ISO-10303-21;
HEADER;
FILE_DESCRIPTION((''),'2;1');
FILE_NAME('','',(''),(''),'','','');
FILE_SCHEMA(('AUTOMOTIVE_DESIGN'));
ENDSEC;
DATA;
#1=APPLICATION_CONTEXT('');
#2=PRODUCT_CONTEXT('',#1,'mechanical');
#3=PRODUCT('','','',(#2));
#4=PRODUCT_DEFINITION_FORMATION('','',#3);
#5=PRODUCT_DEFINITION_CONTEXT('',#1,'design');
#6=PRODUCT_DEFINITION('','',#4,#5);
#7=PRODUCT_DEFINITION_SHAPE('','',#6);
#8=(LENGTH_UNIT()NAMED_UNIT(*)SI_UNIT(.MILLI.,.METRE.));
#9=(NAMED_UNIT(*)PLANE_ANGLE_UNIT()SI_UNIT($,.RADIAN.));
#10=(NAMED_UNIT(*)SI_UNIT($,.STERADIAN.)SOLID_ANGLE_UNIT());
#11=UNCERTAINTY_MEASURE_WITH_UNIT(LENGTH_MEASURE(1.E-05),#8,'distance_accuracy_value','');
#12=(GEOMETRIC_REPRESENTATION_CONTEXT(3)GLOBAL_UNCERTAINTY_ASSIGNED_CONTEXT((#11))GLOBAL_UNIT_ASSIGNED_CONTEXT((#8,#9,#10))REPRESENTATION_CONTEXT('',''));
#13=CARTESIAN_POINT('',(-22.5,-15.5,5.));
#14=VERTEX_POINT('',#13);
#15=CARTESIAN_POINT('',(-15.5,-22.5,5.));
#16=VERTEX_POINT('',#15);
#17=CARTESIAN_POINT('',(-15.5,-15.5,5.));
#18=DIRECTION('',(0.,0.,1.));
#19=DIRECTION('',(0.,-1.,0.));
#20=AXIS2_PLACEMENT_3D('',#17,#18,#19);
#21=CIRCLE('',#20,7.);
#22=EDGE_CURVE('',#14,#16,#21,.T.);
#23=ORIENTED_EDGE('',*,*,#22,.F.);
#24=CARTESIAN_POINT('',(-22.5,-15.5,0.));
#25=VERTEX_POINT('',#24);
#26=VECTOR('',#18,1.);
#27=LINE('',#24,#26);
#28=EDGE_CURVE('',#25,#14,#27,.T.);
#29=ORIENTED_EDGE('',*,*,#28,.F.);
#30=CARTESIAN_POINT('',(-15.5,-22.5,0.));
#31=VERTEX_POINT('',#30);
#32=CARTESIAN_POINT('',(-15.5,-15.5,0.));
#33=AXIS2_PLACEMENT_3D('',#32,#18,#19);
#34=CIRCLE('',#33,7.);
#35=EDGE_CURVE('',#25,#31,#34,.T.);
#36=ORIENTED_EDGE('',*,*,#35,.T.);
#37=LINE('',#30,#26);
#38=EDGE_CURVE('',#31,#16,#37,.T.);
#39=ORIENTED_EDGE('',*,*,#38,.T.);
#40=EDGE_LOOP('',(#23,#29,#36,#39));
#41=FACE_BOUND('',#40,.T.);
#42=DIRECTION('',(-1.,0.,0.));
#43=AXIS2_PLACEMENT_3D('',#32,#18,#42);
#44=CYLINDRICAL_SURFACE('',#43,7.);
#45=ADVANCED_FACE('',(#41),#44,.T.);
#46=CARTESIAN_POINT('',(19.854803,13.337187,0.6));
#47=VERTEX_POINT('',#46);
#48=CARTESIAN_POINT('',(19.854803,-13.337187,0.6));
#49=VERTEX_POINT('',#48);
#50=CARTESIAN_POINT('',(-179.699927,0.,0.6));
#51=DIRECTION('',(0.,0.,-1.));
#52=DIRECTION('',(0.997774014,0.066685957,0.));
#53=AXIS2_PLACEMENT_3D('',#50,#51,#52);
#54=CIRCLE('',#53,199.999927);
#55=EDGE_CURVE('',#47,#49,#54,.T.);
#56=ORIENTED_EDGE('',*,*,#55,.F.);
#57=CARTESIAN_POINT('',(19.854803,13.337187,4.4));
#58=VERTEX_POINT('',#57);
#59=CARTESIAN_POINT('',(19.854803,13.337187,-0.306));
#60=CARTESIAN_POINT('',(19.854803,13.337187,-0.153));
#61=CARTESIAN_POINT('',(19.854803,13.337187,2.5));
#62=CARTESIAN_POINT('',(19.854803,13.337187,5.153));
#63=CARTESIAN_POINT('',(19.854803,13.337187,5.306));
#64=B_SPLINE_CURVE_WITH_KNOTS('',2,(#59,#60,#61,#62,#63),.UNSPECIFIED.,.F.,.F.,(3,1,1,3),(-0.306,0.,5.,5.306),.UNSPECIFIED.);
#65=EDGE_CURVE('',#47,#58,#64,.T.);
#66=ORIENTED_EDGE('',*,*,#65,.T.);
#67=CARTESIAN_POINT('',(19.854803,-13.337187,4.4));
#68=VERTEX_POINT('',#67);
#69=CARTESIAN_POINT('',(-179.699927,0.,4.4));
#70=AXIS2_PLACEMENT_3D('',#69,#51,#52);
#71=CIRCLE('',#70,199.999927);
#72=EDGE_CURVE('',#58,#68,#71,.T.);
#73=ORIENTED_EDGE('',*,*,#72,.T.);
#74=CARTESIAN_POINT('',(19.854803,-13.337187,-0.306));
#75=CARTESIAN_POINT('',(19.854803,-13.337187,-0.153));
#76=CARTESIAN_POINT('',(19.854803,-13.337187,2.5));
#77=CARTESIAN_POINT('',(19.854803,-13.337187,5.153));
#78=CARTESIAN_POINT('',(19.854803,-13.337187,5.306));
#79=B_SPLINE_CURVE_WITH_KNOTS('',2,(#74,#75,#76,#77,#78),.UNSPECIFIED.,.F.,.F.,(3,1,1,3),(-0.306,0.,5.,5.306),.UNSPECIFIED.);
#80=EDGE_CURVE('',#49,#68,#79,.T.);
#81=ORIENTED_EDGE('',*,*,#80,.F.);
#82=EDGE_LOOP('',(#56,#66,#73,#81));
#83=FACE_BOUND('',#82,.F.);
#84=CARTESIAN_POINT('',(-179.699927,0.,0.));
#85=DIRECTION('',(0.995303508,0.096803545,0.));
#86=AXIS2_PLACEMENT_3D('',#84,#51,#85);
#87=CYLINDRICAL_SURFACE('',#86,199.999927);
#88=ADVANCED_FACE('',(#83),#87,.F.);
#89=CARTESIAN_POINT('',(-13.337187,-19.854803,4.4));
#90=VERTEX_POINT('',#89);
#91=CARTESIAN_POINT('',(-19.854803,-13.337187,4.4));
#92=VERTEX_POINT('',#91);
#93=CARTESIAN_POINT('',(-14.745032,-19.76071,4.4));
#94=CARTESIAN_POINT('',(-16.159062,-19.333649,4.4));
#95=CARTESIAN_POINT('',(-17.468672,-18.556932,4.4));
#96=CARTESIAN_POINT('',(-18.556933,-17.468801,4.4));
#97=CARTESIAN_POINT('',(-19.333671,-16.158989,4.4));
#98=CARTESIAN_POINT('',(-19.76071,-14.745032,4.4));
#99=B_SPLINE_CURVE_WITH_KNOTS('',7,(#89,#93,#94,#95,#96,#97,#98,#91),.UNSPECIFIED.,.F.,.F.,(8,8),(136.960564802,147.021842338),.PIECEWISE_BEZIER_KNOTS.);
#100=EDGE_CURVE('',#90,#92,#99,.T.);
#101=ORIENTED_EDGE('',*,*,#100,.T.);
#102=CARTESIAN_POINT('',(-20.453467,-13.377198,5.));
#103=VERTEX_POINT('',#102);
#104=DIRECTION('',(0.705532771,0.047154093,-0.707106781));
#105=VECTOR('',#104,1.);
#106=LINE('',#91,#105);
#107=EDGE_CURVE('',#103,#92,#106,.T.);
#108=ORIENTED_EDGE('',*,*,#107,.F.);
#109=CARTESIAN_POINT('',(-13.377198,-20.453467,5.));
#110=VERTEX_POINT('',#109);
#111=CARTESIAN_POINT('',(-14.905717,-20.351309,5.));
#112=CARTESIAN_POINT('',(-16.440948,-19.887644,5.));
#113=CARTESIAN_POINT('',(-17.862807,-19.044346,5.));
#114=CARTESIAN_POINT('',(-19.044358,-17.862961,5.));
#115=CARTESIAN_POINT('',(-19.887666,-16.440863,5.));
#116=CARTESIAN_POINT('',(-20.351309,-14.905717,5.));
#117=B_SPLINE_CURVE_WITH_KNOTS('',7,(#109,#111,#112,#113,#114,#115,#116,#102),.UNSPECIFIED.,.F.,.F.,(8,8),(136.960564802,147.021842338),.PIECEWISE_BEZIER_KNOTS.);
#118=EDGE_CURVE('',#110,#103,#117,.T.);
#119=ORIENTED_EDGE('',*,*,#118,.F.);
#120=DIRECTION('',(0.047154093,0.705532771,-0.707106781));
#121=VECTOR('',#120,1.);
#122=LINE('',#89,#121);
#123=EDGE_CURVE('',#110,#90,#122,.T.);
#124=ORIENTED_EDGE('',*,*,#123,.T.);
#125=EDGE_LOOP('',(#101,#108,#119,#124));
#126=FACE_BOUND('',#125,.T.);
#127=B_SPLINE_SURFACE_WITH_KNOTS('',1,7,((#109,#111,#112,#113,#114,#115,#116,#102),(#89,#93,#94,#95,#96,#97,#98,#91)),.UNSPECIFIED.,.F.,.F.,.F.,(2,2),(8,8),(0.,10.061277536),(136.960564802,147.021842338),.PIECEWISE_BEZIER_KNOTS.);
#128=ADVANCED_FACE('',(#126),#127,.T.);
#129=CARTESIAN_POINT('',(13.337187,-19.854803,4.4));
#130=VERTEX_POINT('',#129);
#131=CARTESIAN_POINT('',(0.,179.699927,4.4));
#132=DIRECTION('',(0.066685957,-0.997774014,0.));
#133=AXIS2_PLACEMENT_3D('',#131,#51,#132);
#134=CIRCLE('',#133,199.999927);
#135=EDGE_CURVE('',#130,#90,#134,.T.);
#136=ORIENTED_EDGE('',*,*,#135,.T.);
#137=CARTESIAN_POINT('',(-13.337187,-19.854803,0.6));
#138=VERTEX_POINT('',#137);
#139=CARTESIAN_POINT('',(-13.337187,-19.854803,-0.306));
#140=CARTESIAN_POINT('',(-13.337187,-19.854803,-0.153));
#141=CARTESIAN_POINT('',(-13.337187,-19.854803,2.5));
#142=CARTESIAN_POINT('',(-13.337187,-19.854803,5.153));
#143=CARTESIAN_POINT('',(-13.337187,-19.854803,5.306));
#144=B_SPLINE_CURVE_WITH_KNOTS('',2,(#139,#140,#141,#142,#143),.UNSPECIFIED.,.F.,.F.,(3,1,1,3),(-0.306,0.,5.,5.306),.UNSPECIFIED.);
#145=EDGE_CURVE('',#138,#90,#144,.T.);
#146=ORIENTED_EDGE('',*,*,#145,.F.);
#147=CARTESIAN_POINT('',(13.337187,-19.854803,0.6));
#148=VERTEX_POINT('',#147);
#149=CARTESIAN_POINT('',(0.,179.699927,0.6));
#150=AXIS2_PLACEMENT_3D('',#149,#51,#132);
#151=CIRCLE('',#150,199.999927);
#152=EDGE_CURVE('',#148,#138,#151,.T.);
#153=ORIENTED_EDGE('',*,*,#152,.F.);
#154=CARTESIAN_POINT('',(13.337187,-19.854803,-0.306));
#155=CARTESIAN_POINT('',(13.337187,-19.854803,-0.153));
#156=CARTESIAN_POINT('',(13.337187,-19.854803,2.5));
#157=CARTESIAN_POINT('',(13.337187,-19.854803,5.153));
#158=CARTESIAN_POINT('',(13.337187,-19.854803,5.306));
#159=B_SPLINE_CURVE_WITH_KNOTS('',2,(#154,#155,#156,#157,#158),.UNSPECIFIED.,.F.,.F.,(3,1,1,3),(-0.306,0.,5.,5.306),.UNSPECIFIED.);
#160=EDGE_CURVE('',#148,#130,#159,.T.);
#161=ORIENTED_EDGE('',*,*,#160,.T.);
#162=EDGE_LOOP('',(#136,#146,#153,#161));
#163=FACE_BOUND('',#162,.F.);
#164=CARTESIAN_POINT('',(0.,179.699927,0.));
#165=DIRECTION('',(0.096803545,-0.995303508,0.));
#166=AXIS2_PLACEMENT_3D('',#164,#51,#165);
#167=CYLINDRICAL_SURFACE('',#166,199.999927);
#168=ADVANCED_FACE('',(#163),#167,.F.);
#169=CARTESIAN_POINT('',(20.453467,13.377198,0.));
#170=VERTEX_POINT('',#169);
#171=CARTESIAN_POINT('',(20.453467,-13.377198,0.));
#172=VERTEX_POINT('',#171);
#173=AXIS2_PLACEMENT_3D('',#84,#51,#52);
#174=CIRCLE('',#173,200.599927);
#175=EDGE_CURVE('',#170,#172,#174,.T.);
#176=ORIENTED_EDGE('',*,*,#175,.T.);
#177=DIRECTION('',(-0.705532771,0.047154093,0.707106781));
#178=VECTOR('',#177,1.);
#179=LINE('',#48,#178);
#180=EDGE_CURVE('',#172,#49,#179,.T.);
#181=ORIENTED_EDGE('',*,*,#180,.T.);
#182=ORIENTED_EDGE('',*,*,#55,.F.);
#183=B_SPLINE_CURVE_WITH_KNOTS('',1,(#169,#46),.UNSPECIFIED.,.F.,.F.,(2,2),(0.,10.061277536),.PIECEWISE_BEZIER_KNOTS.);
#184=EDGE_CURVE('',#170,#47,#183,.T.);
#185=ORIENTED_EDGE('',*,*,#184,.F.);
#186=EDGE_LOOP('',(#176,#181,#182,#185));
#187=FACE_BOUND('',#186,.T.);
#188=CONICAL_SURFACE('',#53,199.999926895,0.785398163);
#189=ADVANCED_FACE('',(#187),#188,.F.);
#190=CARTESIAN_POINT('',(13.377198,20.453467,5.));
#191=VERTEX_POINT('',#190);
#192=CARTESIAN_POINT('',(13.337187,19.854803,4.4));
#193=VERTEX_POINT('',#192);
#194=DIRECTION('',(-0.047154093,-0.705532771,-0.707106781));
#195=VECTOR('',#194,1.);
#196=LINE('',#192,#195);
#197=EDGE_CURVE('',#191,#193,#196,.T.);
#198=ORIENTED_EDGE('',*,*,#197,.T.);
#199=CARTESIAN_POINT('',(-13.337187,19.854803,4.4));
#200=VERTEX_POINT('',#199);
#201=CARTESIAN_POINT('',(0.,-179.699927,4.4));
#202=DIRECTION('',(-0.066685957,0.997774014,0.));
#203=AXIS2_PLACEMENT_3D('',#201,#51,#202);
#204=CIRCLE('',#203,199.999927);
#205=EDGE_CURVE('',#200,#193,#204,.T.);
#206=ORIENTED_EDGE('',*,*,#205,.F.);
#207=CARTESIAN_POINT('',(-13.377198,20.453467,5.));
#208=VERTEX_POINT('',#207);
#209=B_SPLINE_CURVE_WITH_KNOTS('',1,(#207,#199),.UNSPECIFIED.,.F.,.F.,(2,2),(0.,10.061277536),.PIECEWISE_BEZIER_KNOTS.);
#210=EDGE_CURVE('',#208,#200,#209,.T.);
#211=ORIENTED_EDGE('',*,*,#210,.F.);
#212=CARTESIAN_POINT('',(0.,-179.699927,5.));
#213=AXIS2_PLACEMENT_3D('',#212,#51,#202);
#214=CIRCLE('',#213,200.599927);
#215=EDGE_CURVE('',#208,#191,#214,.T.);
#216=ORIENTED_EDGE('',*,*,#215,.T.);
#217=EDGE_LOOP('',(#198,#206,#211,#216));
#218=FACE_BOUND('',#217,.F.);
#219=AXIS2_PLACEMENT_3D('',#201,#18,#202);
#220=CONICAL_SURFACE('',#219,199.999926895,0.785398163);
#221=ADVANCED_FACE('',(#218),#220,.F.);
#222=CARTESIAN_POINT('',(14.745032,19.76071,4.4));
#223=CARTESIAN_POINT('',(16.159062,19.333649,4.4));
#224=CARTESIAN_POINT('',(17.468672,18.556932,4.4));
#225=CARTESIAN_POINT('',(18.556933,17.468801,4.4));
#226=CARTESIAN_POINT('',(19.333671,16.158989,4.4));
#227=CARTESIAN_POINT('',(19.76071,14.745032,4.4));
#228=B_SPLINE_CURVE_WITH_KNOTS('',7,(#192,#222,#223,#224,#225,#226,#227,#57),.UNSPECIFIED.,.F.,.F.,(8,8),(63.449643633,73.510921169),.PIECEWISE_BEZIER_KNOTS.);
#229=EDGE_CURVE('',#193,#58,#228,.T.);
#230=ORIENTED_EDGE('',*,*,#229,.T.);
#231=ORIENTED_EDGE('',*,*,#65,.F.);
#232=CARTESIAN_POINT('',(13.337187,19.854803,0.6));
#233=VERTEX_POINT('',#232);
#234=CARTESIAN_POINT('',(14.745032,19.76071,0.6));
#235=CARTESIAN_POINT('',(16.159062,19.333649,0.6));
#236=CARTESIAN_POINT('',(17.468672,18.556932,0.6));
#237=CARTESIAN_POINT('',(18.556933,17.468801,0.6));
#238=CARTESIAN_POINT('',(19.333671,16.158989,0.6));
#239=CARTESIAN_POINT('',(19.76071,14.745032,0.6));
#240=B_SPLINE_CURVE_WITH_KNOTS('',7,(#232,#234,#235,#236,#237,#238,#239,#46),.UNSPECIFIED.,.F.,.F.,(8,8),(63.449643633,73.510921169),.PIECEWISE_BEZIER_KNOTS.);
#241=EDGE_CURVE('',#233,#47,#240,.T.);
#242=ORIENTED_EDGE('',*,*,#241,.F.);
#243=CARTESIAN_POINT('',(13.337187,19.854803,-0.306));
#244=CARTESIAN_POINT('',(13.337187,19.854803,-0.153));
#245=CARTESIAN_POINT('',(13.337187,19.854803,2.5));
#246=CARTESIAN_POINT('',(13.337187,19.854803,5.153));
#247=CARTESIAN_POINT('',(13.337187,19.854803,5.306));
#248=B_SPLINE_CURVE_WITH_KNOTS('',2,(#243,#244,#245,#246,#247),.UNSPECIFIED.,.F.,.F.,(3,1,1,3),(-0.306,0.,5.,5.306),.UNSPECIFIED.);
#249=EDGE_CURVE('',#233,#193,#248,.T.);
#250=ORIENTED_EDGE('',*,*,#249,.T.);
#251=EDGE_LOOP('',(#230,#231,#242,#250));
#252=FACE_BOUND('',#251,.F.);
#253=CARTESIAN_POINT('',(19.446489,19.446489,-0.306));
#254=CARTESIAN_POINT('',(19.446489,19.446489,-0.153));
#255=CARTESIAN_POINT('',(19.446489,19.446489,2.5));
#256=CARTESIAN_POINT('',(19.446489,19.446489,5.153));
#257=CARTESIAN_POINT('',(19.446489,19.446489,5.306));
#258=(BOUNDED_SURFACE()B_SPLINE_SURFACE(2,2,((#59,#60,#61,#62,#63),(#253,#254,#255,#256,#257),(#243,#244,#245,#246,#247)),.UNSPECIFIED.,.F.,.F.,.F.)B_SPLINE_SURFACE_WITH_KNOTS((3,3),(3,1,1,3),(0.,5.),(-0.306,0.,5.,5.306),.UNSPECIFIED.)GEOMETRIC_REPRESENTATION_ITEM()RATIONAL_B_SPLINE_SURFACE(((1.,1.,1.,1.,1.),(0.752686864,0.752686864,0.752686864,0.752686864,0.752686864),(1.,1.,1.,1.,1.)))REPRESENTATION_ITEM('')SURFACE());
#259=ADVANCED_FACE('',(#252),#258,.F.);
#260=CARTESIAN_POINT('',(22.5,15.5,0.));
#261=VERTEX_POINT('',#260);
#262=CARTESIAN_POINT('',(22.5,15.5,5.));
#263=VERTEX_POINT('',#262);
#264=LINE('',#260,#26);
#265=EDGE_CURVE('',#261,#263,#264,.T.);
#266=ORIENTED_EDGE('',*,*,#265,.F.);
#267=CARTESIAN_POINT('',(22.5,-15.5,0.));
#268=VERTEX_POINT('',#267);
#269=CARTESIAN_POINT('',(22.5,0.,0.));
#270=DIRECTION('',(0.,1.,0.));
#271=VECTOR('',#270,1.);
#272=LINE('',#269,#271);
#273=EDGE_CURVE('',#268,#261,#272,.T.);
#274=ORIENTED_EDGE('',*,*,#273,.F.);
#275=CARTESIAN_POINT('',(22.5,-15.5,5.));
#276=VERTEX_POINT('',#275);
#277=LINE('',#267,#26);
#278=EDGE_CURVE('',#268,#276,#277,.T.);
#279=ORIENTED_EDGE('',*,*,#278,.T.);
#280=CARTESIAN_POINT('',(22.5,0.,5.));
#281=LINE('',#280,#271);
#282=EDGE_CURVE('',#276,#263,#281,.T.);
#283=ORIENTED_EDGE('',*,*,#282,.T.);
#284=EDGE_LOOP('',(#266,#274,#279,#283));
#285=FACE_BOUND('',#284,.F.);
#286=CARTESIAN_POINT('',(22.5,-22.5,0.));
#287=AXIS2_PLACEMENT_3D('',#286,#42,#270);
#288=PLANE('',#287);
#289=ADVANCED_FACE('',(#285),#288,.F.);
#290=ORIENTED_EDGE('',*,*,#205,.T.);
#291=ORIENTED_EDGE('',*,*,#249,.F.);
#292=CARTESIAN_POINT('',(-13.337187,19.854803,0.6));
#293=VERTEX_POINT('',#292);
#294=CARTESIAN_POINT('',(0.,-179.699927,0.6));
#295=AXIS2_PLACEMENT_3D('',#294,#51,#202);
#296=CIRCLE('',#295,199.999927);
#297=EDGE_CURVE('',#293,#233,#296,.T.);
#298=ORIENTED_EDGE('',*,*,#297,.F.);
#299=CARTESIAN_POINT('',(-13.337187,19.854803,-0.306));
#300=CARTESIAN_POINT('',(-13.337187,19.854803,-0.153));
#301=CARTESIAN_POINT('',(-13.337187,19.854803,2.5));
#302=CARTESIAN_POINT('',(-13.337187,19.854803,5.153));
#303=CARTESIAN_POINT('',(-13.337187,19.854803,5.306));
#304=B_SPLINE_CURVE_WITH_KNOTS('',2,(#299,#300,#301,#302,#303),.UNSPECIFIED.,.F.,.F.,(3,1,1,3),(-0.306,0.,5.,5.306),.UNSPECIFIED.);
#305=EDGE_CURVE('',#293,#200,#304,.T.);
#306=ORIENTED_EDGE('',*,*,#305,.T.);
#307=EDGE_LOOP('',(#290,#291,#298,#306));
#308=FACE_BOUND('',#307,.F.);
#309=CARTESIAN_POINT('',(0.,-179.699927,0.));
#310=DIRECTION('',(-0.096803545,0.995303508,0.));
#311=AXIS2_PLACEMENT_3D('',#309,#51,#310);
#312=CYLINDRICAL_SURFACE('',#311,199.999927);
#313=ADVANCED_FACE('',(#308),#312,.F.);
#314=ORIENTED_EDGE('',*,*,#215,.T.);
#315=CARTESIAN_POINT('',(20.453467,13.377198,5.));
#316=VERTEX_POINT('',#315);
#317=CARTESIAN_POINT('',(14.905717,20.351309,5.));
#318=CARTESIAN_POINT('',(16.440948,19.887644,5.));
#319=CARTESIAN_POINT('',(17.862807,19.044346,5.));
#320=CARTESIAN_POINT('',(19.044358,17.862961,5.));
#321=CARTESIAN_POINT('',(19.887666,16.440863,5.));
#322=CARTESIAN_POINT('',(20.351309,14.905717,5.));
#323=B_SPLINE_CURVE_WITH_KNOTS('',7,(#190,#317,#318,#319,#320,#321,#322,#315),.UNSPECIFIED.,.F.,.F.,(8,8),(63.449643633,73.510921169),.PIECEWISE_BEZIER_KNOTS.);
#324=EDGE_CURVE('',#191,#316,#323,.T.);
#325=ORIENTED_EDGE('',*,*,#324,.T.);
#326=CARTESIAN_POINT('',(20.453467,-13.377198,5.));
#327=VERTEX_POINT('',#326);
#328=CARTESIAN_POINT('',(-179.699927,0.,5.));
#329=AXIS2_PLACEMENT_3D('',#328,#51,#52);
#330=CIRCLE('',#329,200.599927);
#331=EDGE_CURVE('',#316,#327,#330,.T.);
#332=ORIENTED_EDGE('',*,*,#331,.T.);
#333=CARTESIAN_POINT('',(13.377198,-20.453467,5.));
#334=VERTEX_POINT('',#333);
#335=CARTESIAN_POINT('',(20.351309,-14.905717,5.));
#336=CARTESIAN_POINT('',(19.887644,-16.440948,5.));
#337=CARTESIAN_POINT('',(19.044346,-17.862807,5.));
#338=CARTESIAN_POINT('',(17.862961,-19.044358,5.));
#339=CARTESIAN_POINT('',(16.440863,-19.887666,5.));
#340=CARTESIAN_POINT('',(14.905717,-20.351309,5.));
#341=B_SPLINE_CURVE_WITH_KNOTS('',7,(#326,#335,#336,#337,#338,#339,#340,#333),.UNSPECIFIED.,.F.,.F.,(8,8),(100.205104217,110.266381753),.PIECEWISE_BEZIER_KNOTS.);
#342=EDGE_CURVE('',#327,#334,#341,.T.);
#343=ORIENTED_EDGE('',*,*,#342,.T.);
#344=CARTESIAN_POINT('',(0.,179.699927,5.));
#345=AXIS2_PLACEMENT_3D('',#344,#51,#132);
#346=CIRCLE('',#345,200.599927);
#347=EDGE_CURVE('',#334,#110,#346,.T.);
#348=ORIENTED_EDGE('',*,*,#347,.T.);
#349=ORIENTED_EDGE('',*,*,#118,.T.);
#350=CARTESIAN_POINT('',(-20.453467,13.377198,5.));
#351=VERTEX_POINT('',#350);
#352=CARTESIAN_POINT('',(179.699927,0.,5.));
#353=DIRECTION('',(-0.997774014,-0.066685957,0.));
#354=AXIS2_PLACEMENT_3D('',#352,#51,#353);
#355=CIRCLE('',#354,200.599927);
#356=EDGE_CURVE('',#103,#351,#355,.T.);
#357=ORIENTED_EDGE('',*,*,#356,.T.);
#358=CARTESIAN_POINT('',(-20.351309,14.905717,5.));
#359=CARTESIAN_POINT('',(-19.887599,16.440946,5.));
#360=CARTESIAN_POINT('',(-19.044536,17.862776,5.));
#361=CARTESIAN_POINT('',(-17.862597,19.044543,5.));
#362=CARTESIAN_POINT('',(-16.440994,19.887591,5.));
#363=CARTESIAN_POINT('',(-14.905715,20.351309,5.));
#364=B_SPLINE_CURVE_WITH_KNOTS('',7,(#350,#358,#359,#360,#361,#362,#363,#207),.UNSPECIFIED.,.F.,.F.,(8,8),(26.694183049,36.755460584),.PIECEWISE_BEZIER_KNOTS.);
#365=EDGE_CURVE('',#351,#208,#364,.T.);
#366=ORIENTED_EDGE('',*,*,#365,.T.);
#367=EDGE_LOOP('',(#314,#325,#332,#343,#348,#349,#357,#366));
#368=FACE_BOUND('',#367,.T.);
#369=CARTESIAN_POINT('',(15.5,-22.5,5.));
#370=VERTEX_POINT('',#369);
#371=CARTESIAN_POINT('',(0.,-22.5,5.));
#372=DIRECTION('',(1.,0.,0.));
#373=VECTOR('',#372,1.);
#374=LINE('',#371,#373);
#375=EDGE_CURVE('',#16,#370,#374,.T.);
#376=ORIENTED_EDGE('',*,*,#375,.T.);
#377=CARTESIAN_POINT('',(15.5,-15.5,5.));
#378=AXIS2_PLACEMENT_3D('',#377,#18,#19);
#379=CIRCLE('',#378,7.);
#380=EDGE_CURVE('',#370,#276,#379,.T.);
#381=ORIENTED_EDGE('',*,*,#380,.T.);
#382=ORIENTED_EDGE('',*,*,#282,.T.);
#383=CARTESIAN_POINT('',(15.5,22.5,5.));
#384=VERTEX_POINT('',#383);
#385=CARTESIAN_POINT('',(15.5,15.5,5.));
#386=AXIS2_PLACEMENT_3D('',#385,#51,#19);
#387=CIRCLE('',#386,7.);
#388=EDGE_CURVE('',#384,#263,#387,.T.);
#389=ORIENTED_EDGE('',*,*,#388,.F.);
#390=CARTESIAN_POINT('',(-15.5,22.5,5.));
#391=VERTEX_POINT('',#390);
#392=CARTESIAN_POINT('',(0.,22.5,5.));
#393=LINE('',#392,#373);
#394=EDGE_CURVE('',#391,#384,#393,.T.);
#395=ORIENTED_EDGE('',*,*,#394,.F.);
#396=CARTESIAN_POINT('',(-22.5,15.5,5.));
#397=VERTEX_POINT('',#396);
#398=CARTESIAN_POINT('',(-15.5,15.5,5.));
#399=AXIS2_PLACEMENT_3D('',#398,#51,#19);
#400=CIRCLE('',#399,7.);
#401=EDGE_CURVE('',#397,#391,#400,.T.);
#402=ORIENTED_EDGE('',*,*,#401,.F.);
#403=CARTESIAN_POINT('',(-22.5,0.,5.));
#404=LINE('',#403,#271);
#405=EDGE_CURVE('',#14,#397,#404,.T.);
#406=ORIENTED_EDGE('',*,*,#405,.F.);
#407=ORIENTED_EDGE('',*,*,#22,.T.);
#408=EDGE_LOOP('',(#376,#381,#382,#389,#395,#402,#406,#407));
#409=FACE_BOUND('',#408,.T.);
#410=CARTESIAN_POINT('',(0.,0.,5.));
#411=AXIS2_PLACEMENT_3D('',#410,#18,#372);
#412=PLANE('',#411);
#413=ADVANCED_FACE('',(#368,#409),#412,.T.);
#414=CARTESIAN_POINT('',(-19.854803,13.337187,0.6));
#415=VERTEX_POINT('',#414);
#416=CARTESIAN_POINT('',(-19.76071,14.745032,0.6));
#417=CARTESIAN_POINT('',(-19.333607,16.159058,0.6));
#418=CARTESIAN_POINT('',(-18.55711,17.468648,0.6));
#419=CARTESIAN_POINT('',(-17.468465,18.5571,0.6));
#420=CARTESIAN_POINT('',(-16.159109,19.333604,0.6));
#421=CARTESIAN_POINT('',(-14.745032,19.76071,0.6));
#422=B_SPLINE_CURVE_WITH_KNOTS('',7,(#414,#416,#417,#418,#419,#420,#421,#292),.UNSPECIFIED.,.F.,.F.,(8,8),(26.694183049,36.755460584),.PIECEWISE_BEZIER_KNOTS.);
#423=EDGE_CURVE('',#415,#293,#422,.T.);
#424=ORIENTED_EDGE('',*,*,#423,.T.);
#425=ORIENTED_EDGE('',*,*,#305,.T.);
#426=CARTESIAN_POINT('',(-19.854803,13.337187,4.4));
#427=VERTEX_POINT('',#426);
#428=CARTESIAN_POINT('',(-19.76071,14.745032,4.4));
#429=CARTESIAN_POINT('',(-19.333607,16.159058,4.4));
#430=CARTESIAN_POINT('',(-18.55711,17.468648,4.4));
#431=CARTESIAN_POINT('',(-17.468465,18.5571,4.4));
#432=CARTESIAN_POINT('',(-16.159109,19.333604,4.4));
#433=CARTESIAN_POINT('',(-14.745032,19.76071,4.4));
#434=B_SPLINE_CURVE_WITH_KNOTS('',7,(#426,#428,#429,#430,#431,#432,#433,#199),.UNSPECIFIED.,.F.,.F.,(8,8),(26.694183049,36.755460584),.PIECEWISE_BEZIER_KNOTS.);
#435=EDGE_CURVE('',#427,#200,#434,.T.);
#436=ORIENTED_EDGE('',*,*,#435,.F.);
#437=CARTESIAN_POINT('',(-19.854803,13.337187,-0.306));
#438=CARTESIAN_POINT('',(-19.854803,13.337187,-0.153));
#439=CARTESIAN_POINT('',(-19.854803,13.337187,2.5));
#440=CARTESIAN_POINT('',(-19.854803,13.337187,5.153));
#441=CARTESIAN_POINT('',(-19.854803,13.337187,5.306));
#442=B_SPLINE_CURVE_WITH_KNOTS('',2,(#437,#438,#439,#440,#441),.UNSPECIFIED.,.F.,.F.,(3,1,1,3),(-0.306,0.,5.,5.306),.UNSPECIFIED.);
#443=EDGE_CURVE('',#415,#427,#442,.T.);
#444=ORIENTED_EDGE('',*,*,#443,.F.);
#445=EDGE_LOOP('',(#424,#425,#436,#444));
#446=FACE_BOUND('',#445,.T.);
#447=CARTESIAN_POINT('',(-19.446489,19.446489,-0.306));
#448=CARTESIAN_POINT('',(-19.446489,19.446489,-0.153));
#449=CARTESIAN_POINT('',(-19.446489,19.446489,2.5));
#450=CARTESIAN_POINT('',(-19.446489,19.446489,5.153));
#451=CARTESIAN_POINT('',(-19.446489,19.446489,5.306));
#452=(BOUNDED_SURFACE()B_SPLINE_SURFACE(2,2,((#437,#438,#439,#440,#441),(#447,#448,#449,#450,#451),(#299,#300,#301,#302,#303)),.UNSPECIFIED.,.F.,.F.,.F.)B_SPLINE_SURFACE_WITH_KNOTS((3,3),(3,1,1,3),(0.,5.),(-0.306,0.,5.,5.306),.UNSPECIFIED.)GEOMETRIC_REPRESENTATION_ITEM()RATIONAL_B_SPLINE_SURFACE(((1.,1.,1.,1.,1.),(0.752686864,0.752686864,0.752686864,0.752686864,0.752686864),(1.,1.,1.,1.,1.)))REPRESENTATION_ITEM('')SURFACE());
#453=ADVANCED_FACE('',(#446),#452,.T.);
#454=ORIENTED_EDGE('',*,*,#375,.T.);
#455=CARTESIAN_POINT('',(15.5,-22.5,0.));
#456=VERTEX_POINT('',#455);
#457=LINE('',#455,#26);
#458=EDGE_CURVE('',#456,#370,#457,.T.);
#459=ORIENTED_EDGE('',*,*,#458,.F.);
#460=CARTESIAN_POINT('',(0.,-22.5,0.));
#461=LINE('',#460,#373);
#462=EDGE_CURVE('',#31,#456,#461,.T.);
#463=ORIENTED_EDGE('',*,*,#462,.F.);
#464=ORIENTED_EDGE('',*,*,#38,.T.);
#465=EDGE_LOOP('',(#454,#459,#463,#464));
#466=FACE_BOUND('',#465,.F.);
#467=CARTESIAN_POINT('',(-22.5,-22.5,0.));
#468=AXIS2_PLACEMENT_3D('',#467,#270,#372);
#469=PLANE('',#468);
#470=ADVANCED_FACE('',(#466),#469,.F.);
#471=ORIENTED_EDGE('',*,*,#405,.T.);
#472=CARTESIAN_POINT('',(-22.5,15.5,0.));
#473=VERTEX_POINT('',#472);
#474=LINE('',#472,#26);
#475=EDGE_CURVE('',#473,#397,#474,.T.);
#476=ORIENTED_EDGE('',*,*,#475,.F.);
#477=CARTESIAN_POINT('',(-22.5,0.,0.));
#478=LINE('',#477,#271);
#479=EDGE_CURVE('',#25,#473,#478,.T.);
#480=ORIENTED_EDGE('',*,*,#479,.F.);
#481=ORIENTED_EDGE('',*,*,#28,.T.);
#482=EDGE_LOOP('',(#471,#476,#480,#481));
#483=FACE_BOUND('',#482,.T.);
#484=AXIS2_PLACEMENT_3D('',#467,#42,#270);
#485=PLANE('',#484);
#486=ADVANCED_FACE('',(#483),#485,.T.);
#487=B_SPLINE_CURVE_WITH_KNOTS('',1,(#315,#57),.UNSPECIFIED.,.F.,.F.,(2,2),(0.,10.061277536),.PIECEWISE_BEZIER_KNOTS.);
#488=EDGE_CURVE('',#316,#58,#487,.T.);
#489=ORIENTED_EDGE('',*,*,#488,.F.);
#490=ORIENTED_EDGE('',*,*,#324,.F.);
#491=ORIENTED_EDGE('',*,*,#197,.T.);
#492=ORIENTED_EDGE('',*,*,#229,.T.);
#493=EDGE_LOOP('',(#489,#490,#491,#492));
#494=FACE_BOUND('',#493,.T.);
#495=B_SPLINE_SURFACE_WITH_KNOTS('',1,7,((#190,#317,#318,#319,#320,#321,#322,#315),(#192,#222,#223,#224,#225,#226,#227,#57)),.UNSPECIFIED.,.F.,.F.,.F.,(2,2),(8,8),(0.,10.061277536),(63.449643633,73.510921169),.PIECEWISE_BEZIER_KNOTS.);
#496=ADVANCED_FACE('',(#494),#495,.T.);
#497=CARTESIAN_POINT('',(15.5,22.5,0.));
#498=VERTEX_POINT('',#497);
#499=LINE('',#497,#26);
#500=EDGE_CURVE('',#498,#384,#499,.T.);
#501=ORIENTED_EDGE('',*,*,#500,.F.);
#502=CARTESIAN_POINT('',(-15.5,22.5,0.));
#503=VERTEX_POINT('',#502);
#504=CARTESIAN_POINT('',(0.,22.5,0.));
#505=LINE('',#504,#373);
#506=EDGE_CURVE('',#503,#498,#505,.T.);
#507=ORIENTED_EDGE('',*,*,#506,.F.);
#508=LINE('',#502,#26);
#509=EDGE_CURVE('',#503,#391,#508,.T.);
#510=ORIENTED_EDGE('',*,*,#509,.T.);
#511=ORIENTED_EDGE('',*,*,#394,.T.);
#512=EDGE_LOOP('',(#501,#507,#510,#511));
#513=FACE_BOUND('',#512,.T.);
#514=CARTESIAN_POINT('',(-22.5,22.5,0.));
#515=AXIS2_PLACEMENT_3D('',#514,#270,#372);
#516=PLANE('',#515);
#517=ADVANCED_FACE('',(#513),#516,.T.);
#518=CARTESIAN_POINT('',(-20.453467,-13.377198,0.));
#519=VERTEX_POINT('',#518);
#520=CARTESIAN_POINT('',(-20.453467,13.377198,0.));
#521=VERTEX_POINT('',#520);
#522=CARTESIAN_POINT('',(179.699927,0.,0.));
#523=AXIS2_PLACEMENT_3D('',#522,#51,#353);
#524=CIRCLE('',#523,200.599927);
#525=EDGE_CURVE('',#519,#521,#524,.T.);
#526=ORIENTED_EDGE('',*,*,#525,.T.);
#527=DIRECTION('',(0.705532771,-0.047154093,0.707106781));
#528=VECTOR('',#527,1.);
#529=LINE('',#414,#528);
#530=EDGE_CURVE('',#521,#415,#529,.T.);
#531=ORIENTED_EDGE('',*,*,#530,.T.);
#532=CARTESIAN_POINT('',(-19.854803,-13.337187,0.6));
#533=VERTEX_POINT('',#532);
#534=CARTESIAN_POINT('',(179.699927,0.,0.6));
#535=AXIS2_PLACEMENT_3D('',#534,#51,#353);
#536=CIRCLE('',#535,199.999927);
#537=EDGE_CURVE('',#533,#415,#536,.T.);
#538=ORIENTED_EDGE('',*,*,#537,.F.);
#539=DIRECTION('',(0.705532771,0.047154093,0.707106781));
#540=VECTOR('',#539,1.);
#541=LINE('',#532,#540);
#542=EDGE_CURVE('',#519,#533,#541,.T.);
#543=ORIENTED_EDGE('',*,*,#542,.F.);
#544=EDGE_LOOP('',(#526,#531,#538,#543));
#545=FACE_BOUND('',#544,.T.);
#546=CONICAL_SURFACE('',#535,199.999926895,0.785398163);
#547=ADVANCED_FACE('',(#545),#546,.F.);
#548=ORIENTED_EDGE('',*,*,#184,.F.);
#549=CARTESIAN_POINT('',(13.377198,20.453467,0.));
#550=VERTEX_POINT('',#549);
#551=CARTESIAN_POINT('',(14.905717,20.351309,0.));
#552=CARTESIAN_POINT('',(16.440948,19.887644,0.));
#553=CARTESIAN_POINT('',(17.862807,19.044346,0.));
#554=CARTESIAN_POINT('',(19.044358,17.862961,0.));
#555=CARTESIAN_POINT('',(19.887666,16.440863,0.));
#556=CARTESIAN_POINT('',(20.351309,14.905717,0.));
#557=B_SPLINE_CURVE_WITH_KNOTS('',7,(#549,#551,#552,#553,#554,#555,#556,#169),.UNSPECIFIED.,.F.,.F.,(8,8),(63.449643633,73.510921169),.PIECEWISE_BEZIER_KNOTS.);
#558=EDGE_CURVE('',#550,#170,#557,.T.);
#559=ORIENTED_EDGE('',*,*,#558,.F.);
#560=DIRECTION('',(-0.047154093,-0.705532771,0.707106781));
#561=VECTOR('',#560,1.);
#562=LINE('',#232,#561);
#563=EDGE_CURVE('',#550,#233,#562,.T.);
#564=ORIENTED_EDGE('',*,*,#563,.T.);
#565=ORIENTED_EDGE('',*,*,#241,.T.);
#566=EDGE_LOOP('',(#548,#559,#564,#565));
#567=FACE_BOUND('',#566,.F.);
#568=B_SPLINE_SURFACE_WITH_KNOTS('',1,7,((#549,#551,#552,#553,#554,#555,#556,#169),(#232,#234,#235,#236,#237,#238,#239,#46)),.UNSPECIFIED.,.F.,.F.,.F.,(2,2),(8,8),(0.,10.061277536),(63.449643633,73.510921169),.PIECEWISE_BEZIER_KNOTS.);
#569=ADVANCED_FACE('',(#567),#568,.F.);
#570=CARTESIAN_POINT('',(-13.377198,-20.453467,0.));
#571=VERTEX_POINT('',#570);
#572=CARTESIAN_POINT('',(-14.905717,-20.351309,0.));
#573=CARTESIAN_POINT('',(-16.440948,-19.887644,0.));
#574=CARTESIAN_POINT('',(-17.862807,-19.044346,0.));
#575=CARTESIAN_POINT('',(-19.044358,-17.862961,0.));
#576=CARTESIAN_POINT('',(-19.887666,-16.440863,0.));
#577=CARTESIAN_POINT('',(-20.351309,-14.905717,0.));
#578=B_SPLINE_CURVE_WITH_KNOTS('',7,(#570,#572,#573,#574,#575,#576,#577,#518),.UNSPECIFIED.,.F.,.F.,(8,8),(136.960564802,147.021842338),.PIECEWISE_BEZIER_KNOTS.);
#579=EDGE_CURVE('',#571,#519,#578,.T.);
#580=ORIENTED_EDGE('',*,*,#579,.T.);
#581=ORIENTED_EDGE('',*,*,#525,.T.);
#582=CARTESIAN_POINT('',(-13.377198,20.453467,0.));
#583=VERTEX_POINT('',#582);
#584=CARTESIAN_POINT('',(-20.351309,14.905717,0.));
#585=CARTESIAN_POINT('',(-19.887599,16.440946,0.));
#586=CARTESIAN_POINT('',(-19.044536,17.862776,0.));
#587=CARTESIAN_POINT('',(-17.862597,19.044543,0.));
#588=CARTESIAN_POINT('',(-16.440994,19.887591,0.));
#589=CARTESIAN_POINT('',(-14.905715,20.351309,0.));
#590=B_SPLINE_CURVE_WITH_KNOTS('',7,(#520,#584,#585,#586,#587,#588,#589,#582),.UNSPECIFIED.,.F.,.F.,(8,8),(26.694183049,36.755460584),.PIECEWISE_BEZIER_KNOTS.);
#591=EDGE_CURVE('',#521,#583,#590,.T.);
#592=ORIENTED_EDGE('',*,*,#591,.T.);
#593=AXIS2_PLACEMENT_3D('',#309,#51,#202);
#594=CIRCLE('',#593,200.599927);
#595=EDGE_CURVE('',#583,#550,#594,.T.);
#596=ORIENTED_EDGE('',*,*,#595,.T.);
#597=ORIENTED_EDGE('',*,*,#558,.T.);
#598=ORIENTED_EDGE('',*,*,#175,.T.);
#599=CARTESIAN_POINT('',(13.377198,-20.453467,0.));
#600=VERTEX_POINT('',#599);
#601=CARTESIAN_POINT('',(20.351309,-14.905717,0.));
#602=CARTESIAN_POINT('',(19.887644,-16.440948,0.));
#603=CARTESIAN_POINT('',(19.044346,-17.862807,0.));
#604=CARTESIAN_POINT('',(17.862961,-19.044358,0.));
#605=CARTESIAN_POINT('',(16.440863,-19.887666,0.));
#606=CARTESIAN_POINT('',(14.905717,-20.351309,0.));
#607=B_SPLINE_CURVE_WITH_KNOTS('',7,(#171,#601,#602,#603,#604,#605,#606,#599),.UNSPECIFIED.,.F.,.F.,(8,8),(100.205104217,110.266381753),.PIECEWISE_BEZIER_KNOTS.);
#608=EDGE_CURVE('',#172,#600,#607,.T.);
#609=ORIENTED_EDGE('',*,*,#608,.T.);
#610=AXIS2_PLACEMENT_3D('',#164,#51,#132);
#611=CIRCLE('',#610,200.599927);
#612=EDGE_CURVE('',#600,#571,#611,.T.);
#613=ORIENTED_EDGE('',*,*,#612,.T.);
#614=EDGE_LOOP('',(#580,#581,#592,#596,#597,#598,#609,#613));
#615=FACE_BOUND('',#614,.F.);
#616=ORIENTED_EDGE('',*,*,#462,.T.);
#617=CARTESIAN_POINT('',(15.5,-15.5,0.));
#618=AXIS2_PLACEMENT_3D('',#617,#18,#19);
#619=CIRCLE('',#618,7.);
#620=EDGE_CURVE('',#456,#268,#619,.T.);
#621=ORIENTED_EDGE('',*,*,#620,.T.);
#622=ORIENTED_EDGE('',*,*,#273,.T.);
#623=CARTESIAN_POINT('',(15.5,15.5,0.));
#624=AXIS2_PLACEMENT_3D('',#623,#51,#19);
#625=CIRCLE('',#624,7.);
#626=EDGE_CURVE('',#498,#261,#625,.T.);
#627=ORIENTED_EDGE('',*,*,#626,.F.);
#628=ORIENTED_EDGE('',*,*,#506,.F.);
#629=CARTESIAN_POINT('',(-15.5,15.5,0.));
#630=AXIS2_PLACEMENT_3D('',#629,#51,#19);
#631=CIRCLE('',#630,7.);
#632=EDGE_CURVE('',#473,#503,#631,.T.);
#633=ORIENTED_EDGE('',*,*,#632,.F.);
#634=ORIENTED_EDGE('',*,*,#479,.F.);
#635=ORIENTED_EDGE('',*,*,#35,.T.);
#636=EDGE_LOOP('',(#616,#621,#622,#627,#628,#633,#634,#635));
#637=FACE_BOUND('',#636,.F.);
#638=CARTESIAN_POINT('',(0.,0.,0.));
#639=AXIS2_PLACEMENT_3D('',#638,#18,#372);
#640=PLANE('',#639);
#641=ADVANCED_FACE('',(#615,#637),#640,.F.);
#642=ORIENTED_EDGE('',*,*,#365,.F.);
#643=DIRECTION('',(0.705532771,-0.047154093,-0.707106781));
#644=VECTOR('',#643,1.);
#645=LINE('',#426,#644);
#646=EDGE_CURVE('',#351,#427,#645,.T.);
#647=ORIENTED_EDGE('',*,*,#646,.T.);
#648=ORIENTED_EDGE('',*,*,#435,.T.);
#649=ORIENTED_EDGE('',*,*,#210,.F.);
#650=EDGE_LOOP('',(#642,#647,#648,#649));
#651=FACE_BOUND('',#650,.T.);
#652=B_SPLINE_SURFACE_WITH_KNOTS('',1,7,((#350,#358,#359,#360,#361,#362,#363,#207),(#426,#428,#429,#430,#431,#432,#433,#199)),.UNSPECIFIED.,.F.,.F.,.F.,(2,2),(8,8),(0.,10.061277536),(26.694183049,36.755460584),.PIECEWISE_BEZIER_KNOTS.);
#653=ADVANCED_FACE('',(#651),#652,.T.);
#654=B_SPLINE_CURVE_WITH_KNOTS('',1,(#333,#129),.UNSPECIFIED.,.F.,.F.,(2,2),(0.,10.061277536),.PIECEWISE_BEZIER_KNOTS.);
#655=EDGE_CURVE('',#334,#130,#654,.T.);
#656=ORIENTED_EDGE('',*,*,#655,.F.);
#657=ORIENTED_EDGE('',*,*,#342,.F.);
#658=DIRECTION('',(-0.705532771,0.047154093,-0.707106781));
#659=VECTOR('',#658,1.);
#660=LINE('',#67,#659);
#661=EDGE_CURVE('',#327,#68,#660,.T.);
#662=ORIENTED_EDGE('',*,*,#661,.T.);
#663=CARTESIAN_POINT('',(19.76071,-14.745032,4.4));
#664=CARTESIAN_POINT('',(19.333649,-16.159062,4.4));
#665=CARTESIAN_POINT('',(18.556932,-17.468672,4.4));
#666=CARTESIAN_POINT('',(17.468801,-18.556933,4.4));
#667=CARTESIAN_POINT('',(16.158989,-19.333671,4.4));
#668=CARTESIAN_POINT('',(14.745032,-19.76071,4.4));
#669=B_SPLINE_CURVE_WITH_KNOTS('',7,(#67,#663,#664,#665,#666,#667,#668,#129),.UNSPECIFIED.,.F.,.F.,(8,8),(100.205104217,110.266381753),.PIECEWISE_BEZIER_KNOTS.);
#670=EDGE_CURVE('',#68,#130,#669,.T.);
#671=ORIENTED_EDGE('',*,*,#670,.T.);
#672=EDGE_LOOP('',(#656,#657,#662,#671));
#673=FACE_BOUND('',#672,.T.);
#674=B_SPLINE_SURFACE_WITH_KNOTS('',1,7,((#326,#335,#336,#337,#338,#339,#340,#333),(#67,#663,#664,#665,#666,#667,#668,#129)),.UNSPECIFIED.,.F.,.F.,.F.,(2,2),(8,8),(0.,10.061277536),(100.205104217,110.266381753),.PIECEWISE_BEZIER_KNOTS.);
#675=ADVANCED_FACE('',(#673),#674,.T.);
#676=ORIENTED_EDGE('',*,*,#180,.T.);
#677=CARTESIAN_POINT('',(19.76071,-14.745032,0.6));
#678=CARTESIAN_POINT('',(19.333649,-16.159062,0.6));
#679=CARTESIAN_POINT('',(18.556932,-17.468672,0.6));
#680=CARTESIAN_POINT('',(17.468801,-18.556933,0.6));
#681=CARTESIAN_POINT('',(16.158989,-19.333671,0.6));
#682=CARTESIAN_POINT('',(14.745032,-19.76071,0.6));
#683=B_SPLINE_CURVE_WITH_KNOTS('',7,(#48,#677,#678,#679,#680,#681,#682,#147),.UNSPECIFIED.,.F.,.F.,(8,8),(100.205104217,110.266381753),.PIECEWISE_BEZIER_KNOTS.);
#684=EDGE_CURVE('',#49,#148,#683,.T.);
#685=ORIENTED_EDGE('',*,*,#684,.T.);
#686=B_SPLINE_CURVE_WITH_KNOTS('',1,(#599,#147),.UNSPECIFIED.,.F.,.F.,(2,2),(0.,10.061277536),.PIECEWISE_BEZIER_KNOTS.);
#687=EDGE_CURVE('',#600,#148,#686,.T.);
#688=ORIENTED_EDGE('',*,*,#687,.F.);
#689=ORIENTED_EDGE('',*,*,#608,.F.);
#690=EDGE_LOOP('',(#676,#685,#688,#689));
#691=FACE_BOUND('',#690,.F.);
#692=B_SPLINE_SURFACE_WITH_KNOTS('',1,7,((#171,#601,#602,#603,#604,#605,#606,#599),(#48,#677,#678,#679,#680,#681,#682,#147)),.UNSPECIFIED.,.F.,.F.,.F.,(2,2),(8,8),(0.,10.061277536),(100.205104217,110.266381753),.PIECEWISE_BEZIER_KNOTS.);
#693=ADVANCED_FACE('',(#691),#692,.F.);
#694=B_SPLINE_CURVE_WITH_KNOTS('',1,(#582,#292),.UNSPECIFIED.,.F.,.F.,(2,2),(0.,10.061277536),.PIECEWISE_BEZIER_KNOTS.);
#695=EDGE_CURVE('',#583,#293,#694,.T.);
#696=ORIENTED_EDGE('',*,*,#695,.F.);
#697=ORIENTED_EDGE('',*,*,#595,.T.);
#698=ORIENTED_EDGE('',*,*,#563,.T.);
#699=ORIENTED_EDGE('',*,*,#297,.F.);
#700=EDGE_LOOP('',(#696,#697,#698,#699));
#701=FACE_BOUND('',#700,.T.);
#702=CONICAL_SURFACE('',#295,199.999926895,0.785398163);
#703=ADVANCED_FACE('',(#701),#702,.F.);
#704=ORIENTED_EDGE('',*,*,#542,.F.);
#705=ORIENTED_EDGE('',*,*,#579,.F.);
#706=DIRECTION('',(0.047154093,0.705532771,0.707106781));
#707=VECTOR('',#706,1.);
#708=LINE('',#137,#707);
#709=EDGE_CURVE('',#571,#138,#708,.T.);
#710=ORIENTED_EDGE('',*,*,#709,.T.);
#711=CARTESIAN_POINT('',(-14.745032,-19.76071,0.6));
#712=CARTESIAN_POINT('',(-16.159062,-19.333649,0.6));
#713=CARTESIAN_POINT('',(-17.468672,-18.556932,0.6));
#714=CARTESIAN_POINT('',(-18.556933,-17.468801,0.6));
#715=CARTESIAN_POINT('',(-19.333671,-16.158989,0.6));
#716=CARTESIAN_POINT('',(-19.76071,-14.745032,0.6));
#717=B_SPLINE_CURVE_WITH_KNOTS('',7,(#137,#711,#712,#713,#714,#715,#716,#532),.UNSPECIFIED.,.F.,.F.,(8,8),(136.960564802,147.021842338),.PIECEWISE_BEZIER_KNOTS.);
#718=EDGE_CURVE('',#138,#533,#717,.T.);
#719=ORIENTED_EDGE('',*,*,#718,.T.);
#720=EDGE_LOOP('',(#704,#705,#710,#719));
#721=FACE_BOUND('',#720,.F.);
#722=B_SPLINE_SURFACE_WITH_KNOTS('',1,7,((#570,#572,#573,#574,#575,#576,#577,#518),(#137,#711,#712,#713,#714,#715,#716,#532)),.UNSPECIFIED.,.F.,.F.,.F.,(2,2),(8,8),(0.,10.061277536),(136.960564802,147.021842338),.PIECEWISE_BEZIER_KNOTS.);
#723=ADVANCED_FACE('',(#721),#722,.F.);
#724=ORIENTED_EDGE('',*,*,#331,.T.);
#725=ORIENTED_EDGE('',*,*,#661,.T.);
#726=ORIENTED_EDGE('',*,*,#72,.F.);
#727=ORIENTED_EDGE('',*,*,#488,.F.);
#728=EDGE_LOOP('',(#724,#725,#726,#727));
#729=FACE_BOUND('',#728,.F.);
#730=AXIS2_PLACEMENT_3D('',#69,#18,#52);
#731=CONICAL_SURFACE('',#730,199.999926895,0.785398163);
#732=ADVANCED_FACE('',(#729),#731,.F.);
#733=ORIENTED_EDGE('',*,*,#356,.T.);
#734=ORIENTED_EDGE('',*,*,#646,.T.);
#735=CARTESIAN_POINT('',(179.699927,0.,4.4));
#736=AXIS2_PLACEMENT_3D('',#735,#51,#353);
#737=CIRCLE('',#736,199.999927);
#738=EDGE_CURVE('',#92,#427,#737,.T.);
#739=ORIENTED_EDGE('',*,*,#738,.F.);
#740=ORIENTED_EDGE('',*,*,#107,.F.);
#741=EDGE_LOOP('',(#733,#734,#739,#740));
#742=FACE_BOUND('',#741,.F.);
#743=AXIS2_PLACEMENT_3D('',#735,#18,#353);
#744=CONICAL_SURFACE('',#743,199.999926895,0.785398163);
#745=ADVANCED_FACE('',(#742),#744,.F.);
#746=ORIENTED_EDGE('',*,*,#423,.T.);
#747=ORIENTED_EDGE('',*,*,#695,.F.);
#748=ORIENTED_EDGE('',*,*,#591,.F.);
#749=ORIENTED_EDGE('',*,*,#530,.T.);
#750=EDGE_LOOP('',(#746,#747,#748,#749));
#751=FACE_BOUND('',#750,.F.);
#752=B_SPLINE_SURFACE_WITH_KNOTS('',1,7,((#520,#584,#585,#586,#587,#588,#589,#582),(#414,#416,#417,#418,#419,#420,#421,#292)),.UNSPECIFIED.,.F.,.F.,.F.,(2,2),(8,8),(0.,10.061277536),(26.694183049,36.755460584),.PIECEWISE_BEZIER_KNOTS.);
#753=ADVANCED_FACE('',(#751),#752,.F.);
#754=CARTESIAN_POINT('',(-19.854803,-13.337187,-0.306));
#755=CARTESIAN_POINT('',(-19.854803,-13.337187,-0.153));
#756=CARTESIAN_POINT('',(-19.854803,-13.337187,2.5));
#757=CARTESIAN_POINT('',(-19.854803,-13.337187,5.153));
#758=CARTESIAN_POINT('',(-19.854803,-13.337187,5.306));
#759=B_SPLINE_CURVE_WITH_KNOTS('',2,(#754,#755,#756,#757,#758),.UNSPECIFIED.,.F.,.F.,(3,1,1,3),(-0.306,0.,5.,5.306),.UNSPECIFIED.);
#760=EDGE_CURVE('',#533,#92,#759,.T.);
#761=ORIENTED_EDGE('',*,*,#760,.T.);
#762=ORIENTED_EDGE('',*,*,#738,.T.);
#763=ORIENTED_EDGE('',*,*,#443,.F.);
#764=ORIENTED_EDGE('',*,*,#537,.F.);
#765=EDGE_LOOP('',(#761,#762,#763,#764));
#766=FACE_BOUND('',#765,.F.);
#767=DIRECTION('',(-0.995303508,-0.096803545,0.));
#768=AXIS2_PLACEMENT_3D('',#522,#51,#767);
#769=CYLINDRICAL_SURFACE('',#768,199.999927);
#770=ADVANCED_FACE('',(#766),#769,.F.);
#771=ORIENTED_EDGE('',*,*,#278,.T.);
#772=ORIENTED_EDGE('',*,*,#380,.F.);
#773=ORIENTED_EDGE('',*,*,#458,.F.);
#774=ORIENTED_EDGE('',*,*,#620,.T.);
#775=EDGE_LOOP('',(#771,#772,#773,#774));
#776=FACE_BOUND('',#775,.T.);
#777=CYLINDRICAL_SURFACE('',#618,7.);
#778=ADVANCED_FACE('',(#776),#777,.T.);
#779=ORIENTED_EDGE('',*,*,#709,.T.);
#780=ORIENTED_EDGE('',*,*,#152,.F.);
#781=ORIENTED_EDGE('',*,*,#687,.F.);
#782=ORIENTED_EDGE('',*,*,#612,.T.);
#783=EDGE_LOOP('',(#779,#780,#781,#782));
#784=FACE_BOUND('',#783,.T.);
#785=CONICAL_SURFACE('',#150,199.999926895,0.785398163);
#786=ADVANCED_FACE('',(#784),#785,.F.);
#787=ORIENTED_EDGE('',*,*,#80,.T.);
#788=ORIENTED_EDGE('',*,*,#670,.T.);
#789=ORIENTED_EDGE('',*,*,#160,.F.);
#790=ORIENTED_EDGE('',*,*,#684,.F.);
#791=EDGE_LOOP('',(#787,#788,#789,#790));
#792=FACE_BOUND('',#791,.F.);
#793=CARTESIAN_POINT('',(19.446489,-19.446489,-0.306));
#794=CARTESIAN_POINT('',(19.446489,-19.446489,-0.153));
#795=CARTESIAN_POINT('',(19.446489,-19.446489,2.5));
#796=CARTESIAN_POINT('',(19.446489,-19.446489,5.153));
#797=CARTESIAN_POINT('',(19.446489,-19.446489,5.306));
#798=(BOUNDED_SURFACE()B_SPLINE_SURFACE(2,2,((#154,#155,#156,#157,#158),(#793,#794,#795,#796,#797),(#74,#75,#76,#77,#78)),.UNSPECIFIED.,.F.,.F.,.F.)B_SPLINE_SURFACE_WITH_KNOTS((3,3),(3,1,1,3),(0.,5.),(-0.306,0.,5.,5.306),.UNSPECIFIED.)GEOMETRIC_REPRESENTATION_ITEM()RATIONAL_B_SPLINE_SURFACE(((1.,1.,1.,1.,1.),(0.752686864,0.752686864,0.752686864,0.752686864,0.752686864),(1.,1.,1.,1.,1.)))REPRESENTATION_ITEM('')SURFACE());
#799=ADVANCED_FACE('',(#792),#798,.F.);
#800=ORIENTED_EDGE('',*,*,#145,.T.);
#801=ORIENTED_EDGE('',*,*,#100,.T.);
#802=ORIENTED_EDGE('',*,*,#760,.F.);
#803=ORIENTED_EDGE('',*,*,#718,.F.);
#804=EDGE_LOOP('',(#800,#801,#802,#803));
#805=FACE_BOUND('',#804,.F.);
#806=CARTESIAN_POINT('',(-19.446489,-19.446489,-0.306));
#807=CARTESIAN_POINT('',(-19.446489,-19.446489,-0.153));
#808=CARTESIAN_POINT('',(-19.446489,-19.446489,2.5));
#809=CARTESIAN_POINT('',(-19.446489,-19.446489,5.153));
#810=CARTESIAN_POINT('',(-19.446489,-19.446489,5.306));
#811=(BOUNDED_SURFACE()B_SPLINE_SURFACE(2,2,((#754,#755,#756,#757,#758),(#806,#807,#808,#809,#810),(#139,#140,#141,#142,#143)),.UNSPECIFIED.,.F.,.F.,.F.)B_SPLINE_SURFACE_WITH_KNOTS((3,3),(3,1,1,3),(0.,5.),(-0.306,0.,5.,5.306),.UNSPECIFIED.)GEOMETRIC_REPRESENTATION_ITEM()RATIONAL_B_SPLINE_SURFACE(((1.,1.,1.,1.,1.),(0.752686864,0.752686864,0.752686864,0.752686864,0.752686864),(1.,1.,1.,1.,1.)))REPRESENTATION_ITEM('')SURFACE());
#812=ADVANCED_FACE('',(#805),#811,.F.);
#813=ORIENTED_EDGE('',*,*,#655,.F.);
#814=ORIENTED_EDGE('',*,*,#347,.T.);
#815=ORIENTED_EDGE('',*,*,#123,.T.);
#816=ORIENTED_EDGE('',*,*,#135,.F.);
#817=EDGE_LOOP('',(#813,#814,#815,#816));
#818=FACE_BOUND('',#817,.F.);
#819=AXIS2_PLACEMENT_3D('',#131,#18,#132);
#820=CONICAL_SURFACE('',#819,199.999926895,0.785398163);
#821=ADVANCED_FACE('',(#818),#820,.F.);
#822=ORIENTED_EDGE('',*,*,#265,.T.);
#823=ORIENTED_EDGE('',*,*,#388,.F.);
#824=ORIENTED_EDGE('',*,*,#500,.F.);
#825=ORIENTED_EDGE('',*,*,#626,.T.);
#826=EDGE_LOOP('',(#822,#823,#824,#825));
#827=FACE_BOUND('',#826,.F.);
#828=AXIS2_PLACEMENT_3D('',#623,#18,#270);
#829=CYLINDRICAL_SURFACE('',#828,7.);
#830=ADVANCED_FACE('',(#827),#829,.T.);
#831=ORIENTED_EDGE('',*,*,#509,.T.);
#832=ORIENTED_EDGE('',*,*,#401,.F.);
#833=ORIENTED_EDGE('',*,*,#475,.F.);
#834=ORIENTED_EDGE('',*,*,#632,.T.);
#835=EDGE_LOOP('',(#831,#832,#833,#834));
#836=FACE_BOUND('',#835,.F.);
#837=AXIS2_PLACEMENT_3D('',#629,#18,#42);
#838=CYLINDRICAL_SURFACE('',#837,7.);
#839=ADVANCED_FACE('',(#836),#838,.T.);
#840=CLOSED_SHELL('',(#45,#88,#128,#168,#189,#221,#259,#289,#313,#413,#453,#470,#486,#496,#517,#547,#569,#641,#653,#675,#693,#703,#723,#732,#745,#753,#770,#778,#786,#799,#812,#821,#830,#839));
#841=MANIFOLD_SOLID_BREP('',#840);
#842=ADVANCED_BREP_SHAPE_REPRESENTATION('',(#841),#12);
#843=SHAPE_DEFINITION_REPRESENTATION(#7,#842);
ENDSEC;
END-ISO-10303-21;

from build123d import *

# Parameters (mm, degrees)
F0_W     = 45
F0_H     = 45
F1_DEPTH = 5
F2_R     = 7
F3_SIZE  = 0.6


with BuildPart() as f1:
    # F0 (on Top) → F1 (new body)
    with BuildSketch(Plane.XY):
        Rectangle(F0_W, F0_H)
        with BuildLine():
            ThreePointArc((-19.360702, 19.360702), (0, 20.3), (19.360702, 19.360702))
            ThreePointArc((19.360702, 19.360702), (20.3, 0), (19.360702, -19.360702))
            ThreePointArc((19.360702, -19.360702), (0, -20.3), (-19.360702, -19.360702))
            ThreePointArc((-19.360702, -19.360702), (-20.3, 0), (-19.360702, 19.360702))
        make_face(mode=Mode.SUBTRACT)
    extrude(amount=F1_DEPTH)

    # F2
    f2_edges = [f1.edges().sort_by_distance(p)[0] for p in [
        (-19.360702, 19.360702, 2.5),
        (19.360702, 19.360702, 2.5),
        (19.360702, -19.360702, 2.5),
        (-19.360702, -19.360702, 2.5),
        (-22.5, 22.5, 2.5),
        (22.5, 22.5, 2.5),
        (22.5, -22.5, 2.5),
        (-22.5, -22.5, 2.5),
    ]]
    fillet(f2_edges, radius=F2_R)

    # F3
    f3_edges = [f1.edges().sort_by_distance(p)[0] for p in [
        (-20.3, 0, 5),
        (-20.3, 0, 0),
    ]]
    chamfer(f3_edges, length=F3_SIZE)


solid = f1.part
